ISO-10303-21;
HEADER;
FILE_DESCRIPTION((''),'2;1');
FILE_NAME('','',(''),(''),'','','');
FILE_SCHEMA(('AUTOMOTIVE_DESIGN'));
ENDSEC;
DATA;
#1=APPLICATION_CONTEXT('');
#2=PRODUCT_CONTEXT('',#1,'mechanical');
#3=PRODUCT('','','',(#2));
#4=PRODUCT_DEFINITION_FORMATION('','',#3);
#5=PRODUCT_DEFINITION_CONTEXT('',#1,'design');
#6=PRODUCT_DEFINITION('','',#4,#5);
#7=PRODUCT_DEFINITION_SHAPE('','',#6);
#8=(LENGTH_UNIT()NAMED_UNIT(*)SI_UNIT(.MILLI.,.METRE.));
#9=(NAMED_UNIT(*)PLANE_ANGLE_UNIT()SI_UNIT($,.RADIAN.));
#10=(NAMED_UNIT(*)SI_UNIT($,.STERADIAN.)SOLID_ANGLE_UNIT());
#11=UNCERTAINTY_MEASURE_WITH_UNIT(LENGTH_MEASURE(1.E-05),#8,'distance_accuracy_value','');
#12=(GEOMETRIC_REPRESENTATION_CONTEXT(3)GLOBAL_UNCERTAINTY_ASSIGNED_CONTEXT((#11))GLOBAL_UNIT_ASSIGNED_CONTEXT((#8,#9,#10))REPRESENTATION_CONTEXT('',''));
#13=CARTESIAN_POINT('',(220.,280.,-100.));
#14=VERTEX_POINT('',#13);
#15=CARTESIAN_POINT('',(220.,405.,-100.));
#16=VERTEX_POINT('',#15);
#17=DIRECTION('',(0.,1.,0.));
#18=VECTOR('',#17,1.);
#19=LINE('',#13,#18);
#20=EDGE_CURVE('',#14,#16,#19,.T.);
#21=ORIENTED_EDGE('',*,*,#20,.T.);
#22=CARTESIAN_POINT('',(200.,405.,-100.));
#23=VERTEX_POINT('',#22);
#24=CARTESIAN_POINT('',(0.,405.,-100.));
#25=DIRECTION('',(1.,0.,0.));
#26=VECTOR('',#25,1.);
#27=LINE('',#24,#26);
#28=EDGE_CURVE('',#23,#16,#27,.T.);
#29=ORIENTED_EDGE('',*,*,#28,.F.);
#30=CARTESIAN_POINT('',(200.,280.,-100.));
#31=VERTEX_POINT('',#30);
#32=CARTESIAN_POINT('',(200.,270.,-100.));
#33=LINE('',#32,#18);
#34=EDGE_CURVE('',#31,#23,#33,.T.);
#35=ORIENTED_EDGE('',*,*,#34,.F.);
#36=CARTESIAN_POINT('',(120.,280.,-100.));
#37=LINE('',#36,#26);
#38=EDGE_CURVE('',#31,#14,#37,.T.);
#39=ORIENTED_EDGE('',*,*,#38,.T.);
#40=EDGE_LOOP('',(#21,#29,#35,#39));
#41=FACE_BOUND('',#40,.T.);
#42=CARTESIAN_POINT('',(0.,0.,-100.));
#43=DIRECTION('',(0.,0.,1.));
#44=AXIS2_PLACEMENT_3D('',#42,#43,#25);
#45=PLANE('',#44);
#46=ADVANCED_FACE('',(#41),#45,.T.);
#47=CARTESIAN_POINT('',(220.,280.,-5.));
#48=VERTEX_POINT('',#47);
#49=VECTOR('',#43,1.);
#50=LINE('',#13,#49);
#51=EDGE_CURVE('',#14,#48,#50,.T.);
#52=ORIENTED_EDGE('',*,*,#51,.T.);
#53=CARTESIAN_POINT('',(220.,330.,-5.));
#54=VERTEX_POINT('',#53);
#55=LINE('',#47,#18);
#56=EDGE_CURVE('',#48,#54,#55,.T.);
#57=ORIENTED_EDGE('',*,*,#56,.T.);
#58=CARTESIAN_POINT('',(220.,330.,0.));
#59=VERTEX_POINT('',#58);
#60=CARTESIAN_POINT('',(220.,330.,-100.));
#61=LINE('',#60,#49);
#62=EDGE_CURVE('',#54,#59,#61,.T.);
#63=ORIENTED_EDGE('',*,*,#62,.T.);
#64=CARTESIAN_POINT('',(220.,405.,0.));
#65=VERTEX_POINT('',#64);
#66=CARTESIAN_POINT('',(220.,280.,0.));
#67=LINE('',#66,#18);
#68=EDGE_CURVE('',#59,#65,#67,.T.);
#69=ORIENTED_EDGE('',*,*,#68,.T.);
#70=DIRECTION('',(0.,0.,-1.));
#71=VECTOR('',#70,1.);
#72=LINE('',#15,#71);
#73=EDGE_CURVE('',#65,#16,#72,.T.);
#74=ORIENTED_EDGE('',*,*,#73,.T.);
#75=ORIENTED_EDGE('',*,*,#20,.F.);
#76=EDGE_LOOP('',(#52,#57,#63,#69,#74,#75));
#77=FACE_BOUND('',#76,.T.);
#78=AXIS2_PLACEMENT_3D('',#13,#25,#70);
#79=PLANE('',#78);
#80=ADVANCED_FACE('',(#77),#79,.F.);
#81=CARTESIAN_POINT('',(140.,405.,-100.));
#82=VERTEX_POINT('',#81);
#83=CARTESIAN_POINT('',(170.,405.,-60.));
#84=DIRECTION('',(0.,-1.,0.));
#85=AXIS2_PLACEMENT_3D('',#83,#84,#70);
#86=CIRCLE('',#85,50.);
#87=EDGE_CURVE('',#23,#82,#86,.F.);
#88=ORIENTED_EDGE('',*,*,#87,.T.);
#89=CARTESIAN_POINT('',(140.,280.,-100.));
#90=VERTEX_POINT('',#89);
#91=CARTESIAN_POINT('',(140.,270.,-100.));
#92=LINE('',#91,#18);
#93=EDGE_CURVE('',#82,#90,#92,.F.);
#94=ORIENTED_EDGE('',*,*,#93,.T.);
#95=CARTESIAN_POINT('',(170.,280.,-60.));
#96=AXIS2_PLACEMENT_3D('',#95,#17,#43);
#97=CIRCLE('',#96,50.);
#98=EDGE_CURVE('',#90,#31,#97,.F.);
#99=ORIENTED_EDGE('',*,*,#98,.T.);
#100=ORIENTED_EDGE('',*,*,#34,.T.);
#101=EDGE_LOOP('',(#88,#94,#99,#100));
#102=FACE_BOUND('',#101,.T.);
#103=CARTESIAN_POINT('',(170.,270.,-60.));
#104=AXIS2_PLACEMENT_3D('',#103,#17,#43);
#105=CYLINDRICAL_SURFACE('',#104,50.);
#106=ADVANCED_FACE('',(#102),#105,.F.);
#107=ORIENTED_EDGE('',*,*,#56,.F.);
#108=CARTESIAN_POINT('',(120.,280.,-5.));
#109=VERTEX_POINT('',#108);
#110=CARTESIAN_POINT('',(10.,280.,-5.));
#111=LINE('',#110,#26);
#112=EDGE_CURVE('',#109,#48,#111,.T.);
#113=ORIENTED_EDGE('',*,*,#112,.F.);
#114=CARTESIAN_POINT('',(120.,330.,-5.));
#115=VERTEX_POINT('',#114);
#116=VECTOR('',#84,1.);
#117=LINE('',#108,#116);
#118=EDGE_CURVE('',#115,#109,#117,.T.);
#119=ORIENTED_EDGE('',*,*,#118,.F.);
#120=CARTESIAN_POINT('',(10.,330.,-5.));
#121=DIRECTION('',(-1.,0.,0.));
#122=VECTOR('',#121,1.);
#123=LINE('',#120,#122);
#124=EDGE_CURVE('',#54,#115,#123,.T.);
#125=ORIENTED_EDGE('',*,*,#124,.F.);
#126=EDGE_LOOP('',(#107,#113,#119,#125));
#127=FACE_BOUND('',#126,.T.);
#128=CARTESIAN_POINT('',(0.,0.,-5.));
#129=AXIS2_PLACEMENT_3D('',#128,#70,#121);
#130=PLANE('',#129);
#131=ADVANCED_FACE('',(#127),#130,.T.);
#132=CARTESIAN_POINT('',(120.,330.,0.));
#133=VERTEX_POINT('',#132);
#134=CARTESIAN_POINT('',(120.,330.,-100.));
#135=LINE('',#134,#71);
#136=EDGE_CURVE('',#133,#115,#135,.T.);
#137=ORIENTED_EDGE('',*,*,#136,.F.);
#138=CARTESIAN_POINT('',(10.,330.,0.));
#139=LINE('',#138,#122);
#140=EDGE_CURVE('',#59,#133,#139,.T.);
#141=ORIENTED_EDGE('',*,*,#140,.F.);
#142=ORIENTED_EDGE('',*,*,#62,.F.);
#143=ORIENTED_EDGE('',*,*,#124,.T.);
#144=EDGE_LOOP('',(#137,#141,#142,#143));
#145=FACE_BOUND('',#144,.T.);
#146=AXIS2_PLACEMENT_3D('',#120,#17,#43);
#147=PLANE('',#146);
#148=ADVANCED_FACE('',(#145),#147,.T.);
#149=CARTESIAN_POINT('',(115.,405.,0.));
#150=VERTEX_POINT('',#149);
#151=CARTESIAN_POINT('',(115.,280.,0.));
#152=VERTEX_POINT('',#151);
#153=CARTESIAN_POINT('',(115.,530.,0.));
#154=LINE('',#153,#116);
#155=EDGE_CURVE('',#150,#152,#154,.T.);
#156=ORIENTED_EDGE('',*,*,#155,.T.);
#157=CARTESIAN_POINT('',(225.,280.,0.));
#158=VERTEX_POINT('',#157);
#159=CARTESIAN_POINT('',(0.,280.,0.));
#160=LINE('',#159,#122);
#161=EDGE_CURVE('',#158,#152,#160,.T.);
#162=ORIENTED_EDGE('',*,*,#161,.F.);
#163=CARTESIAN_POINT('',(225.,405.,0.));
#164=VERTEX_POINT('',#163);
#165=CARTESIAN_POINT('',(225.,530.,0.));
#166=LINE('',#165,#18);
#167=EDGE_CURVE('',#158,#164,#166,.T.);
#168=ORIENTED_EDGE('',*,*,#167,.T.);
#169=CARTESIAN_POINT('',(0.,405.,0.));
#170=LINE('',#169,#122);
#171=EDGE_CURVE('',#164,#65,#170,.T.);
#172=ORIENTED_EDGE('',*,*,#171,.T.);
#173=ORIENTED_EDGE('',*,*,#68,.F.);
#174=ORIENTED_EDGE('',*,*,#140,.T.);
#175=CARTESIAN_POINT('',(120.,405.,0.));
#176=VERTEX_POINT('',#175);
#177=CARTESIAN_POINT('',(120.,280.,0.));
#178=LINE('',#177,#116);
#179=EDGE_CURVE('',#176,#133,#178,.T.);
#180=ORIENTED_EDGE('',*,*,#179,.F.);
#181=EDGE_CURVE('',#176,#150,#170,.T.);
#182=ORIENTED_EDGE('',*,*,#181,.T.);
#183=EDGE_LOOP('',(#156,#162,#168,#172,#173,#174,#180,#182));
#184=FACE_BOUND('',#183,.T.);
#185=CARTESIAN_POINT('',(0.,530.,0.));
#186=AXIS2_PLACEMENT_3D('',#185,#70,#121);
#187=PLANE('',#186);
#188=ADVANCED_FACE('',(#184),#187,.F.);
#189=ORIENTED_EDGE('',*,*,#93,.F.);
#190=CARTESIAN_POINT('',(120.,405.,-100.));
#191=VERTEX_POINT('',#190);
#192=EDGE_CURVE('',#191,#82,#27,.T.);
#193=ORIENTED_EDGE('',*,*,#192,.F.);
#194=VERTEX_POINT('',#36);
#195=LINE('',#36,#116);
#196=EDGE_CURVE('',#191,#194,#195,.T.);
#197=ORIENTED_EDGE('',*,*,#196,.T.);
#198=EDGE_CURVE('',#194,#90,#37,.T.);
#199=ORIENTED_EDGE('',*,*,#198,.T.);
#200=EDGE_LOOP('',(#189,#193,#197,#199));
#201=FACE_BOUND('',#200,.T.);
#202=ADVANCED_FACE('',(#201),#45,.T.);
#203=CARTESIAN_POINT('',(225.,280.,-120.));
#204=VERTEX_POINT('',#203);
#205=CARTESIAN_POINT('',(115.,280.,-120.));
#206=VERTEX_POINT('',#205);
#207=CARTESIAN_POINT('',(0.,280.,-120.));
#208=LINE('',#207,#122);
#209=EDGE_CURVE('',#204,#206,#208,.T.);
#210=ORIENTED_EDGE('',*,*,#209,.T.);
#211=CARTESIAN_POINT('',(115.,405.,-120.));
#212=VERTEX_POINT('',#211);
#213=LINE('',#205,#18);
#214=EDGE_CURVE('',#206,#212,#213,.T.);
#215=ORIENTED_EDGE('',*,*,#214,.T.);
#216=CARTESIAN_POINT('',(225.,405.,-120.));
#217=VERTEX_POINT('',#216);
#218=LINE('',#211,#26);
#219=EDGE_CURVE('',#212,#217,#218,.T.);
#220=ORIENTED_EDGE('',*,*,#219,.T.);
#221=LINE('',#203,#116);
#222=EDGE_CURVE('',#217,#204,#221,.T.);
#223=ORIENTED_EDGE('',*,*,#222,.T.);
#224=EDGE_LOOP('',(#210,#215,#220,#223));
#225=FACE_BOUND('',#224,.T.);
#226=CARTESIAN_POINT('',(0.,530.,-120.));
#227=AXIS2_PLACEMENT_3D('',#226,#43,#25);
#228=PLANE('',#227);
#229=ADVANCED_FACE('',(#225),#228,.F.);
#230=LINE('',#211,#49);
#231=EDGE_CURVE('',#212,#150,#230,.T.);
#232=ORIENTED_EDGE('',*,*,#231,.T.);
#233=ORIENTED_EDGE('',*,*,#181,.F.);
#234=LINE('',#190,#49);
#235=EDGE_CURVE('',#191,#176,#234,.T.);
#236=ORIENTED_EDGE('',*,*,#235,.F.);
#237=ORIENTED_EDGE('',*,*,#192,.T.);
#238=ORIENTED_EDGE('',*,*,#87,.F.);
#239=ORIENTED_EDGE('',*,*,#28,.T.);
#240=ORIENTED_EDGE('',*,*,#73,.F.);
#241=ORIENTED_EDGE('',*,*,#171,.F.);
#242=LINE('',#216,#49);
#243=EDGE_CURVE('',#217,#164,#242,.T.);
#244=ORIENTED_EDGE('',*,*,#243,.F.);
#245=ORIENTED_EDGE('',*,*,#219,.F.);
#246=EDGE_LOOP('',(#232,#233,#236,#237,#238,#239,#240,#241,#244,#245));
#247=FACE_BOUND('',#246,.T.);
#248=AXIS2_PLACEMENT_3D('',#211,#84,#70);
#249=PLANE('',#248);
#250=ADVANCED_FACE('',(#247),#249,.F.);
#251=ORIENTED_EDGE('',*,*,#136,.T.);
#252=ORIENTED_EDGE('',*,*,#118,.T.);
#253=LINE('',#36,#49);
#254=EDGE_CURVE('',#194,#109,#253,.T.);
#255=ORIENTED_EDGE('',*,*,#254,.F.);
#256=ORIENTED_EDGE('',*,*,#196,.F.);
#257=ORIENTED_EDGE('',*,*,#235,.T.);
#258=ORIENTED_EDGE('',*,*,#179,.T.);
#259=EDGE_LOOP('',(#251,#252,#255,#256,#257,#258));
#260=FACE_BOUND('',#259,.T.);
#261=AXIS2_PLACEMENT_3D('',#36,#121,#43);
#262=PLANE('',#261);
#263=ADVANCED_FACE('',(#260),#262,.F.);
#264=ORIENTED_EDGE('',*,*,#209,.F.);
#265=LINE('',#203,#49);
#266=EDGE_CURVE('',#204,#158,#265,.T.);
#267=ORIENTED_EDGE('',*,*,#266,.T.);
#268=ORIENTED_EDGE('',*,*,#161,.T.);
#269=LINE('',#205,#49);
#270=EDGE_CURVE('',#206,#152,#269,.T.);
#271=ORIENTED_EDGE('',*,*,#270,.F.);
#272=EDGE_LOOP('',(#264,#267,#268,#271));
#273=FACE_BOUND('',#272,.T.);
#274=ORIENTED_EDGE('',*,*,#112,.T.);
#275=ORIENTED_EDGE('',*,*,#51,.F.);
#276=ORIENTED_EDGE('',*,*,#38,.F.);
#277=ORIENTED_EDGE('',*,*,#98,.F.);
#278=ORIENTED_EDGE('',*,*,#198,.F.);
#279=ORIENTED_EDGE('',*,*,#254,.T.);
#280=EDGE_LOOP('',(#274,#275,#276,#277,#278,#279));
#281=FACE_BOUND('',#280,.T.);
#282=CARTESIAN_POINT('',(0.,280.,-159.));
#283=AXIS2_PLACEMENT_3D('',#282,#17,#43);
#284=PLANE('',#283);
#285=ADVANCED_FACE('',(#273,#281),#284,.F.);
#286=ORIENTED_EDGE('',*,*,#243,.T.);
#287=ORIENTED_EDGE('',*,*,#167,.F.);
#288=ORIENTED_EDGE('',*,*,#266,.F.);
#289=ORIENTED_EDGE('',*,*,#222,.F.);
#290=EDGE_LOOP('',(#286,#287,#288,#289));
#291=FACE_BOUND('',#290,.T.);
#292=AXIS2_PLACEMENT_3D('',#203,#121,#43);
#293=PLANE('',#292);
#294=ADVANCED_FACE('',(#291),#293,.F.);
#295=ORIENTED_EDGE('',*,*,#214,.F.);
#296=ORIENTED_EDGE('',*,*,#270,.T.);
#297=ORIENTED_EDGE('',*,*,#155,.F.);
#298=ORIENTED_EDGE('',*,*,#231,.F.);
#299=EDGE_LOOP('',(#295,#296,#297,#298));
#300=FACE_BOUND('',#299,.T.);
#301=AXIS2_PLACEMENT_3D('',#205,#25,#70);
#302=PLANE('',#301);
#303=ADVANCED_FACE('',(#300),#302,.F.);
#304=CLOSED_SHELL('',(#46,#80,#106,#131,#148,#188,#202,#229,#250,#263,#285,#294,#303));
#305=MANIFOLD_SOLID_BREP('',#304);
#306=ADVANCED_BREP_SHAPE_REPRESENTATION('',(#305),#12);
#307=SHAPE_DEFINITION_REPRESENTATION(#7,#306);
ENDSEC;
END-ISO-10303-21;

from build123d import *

# Parameters (mm, degrees)
SKETCH1_W                      = 670
SKETCH1_H                      = 120
BOSS_EXTRUDE1_DEPTH            = 530
SKETCH2_W                      = 100
SKETCH2_H                      = 200
SKETCH2_W_2                    = 650
SKETCH2_H_2                    = 250
CUT_EXTRUDE1_DEPTH             = 100
SKETCH3_R                      = 50
CUT_EXTRUDE2_DEPTH             = 260
F_12_0_12_DIAMETER_HOLE2_D     = 12
F_12_0_12_DIAMETER_HOLE2_DEPTH = 30
F_12_0_12_DIAMETER_HOLE2_TIP   = 3.605163714
SKETCH8_W                      = 650
SKETCH8_H                      = 50
BOSS_EXTRUDE2_DEPTH            = 5
SKETCH9_W                      = 10
SKETCH9_H                      = 250
CUT_EXTRUDE3_DEPTH             = 717
CUT_EXTRUDE4_DEPTH             = 5
SKETCH11_W                     = 10
SKETCH11_H                     = 100
BOSS_EXTRUDE3_DEPTH            = 78
BOSS_EXTRUDE3_2_DEPTH          = 78
BOSS_EXTRUDE3_3_DEPTH          = 78
SKETCH12_W                     = 20
SKETCH12_H                     = 30
CUT_EXTRUDE5_DEPTH             = 80
SKETCH15_W                     = 30
SKETCH15_H                     = 23.536156656
SKETCH15_H_2                   = 28.986603691
CUT_EXTRUDE7_DEPTH             = 35
SHELL1_T                       = -3
SKETCH16_W                     = 14
SKETCH16_H                     = 14
CUT_EXTRUDE8_DEPTH             = 35
SKETCH17_W                     = 5.729882812
SKETCH17_H                     = 17.428393554
SKETCH17_W_2                   = 13.369726562
SKETCH17_H_2                   = 3.342431641
BOSS_EXTRUDE4_DEPTH            = 5
SKETCH18_W                     = 670
SKETCH18_H                     = 280
CUT_EXTRUDE10_DEPTH            = 159
CUT_EXTRUDE11_DEPTH            = 863.670273187
CUT_EXTRUDE11_DEPTH_BACK       = 863.670273187
SKETCH19_W                     = 115
SKETCH19_H                     = 250
SKETCH19_W_2                   = 445
CUT_EXTRUDE12_DEPTH            = 589.153891426
CUT_EXTRUDE12_DEPTH_BACK       = 589.153891426
SKETCH20_W                     = 110
SKETCH20_H                     = 125


with BuildPart() as part:
    # Sketch1 → Boss-Extrude1 (new body)
    with BuildSketch(Plane(origin=(0, 0, 0), x_dir=(1, 0, 0), z_dir=(0, 1, 0))):
        with Locations((335, 60)):
            Rectangle(SKETCH1_W, SKETCH1_H)
    extrude(amount=BOSS_EXTRUDE1_DEPTH)

    # Sketch2 → Cut-Extrude1 (cut)
    with BuildSketch(Plane.XY):
        with Locations((60, 380)):
            Rectangle(SKETCH2_W, SKETCH2_H)
        with Locations((170, 380)):
            Rectangle(SKETCH2_W, SKETCH2_H)
        with Locations((280, 380)):
            Rectangle(SKETCH2_W, SKETCH2_H)
        with Locations((390, 380)):
            Rectangle(SKETCH2_W, SKETCH2_H)
        with Locations((500, 380)):
            Rectangle(SKETCH2_W, SKETCH2_H)
        with Locations((610, 380)):
            Rectangle(SKETCH2_W, SKETCH2_H)
        with Locations((335, 135)):
            Rectangle(SKETCH2_W_2, SKETCH2_H_2)
    extrude(amount=-CUT_EXTRUDE1_DEPTH, mode=Mode.SUBTRACT)

    # Sketch3 → Cut-Extrude2 (cut)
    with BuildSketch(Plane(origin=(0, 530, 0), x_dir=(1, 0, 0), z_dir=(0, 1, 0))):
        with Locations(Location((60, 60, 0), (0, 0, 270))):
            Circle(SKETCH3_R)
        with Locations(Location((170, 60, 0), (0, 0, 270))):
            Circle(SKETCH3_R)
        with Locations(Location((280, 60, 0), (0, 0, 270))):
            Circle(SKETCH3_R)
        with Locations(Location((390, 60, 0), (0, 0, 270))):
            Circle(SKETCH3_R)
        with Locations(Location((500, 60, 0), (0, 0, 270))):
            Circle(SKETCH3_R)
        with Locations(Location((610, 60, 0), (0, 0, 270))):
            Circle(SKETCH3_R)
    extrude(amount=-CUT_EXTRUDE2_DEPTH, mode=Mode.SUBTRACT)

    # Ø12.0 (12) Diameter Hole2
    with Locations(Plane(origin=(59.704642413, 270, -102.411697903), x_dir=(0, 0, 1), z_dir=(0, 1, 0))):
        with Locations((0, 0), (-0.195888006, 111.8520513), (0.014838595, 221.167624818), (-0.341843303, 331.364008353), (0.657723149, 441.008646429), (1.288998006, 549.811854685)):
            Hole(F_12_0_12_DIAMETER_HOLE2_D / 2, depth=F_12_0_12_DIAMETER_HOLE2_DEPTH)
            with Locations((0, 0, -(F_12_0_12_DIAMETER_HOLE2_DEPTH + F_12_0_12_DIAMETER_HOLE2_TIP / 2))):  # 118° drill point
                Cone(0, F_12_0_12_DIAMETER_HOLE2_D / 2, F_12_0_12_DIAMETER_HOLE2_TIP, mode=Mode.SUBTRACT)

    # Sketch8 → Boss-Extrude2 (add)
    with BuildSketch(Plane.XY):
        with Locations((335, 305)):
            Rectangle(SKETCH8_W, SKETCH8_H)
    extrude(amount=-BOSS_EXTRUDE2_DEPTH)

    # Sketch9 → Cut-Extrude3 (cut)
    with BuildSketch(Plane(origin=(670, 0, 0), x_dir=(0, 0, -1), z_dir=(1, 0, 0))):
        with Locations((15, 135)):
            Rectangle(SKETCH9_W, SKETCH9_H)
    extrude(amount=-CUT_EXTRUDE3_DEPTH, mode=Mode.SUBTRACT)

    # Sketch10 → Cut-Extrude4 (cut)
    with BuildSketch(Plane(origin=(0, 10, 0), x_dir=(1, 0, 0), z_dir=(0, 1, 0))):
        Polygon((365, 61.943560596), (350, 87.924322709), (320, 87.924322709), (305, 61.943560596), (320, 35.962798482), (350, 35.962798482), align=None)
    extrude(amount=-CUT_EXTRUDE4_DEPTH, mode=Mode.SUBTRACT)

    # Sketch12 → Cut-Extrude5 (cut)
    with BuildSketch(Plane.XY.offset(-100)):
        with Locations((85.198613037, 245)):
            Rectangle(SKETCH12_W, SKETCH12_H)
        with Locations((195.198613037, 245)):
            Rectangle(SKETCH12_W, SKETCH12_H)
        with Locations((305.198613037, 245)):
            Rectangle(SKETCH12_W, SKETCH12_H)
        with Locations((415.198613037, 245)):
            Rectangle(SKETCH12_W, SKETCH12_H)
        with Locations((525.198613037, 245)):
            Rectangle(SKETCH12_W, SKETCH12_H)
        with Locations((635.198613037, 245)):
            Rectangle(SKETCH12_W, SKETCH12_H)
    extrude(amount=-CUT_EXTRUDE5_DEPTH, mode=Mode.SUBTRACT)

    # Sketch17 → Boss-Extrude4 (add)
    # profile 1 of 9: a face of its own
    with BuildSketch(Plane.XY):
        with BuildLine():
            Line((527.508830928, 289.835452458), (527.508830928, 307.263846012))
            Line((527.508830928, 307.263846012), (534.861434459, 307.263846012))
            add(Edge.make_bspline(
                [(534.861434459, 307.263846012), (535.181337774, 307.258256848), (535.803061116, 307.24739446), (536.703508491, 307.139069344), (537.544992916, 306.975202489), (538.325061607, 306.737496792), (539.040841948, 306.426020155), (539.698044515, 306.051894954), (540.290333057, 305.605079277), (540.822348212, 305.090232636), (541.284521701, 304.502523111), (541.692171296, 303.852565801), (542.030284458, 303.129762281), (542.309377095, 302.341316546), (542.5243908, 301.484161689), (542.679660381, 300.560045938), (542.773357357, 299.567500804), (542.783368073, 298.883107022), (542.788518428, 298.530997273)],
                knots=[0, 0, 0, 0, 1.135059408, 2.20595691, 3.214417064, 4.174978569, 5.094187092, 5.980001006, 6.853065862, 7.720814779, 8.600404634, 9.50058483, 10.438414914, 11.426825708, 12.465239141, 13.571113463, 14.750376389, 16, 16, 16, 16], degree=3))
            add(Edge.make_bspline(
                [(542.788518428, 298.530997273), (542.781740751, 298.180151665), (542.768592871, 297.499553336), (542.676885992, 296.511518461), (542.516733301, 295.591080531), (542.296748778, 294.736450427), (542.003051046, 293.953120444), (541.654236167, 293.233205539), (541.233025793, 292.585291498), (540.753136904, 292.000029304), (540.204772188, 291.484681411), (539.587651059, 291.044279297), (538.910779309, 290.668464036), (538.169670382, 290.361903209), (537.364073889, 290.124869172), (536.495133477, 289.954199984), (535.562644449, 289.853487388), (534.920131033, 289.841584621), (534.58911581, 289.835452458)],
                knots=[0, 0, 0, 0, 1.228418252, 2.382983832, 3.470276728, 4.496757894, 5.468023682, 6.394867725, 7.292157164, 8.167372942, 9.039072913, 9.918728341, 10.815246345, 11.744296628, 12.720973084, 13.750736166, 14.841206188, 16, 16, 16, 16], degree=3))
            Line((534.58911581, 289.835452458), (527.508830928, 289.835452458))
        make_face()
        with BuildLine():
            Line((533.238713741, 291.745413395), (534.048208904, 291.745413395))
            add(Edge.make_bspline(
                [(534.048208904, 291.745413395), (534.172894012, 291.749291978), (534.413033311, 291.756761998), (534.758676231, 291.825976613), (535.075745017, 291.938271137), (535.365749176, 292.094802589), (535.623404602, 292.300450923), (535.848862806, 292.551404902), (536.04776914, 292.844737637), (536.217685755, 293.190205032), (536.364284647, 293.596533622), (536.481764702, 294.076367921), (536.592118304, 294.630928744), (536.673672739, 295.265507643), (536.740044562, 295.978448886), (536.788346679, 296.768428292), (536.812018936, 297.636801208), (536.817188964, 298.241258393), (536.819890499, 298.55711002)],
                knots=[0, 0, 0, 0, 0.728710832, 1.403472396, 2.052289494, 2.690292559, 3.321919393, 3.970736491, 4.656696891, 5.388631723, 6.217040872, 7.17856157, 8.275589967, 9.523440737, 10.918935818, 12.463926104, 14.152268318, 16, 16, 16, 16], degree=3))
            add(Edge.make_bspline(
                [(536.819890499, 298.55711002), (536.8171426, 298.871715251), (536.811863063, 299.476166083), (536.7886758, 300.343334385), (536.739579947, 301.133216935), (536.674703848, 301.843934916), (536.589660404, 302.476324031), (536.488366458, 303.031681737), (536.362441588, 303.507627045), (536.222158727, 303.914921549), (536.050140993, 304.256514038), (535.858357073, 304.554097881), (535.62547107, 304.79746827), (535.36991257, 305.004888479), (535.079348843, 305.160875844), (534.761320266, 305.273944358), (534.414185903, 305.34216807), (534.172870641, 305.349893944), (534.048208904, 305.353885075)],
                knots=[0, 0, 0, 0, 1.842836665, 3.540640921, 5.080358154, 6.47765669, 7.719902824, 8.816971715, 9.781579111, 10.601733135, 11.334613876, 12.017393917, 12.666641099, 13.29908421, 13.937911793, 14.587567384, 15.270347425, 16, 16, 16, 16], degree=3))
            Line((534.048208904, 305.353885075), (533.238713741, 305.353885075))
            Line((533.238713741, 305.353885075), (533.238713741, 291.745413395))
        make_face(mode=Mode.SUBTRACT)
    # profile 2 of 9: a face of its own
    with BuildSketch(Plane.XY):
        with Locations((547.563420772, 298.549649235)):
            Rectangle(SKETCH17_W, SKETCH17_H)
    # profile 3 of 9: a face of its own
    with BuildSketch(Plane.XY):
        Polygon((564.514324092, 307.263846012), (564.514324092, 305.115139958), (558.545696163, 305.115139958), (558.545696163, 299.862747379), (563.559343624, 299.862747379), (563.559343624, 297.714041325), (558.545696163, 297.714041325), (558.545696163, 289.835452458), (552.81581335, 289.835452458), (552.81581335, 307.263846012), align=None)
    # profile 4 of 9: a face of its own
    with BuildSketch(Plane.XY):
        Polygon((577.645305538, 307.263846012), (577.645305538, 305.115139958), (571.676677608, 305.115139958), (571.676677608, 299.862747379), (576.690325069, 299.862747379), (576.690325069, 297.714041325), (571.676677608, 297.714041325), (571.676677608, 289.835452458), (565.946794795, 289.835452458), (565.946794795, 307.263846012), align=None)
    # profile 5 of 9: a face of its own
    with BuildSketch(Plane.XY):
        with Locations((584.330168819, 287.448001286)):
            Rectangle(SKETCH17_W_2, SKETCH17_H_2)
    # profile 6 of 9: a face of its own
    with BuildSketch(Plane.XY):
        with BuildLine():
            Line((605.578484249, 307.263846012), (605.578484249, 295.602639195))
            add(Edge.make_bspline(
                [(605.578484249, 295.602639195), (605.574209777, 295.35989389), (605.565919345, 294.889083964), (605.480877158, 294.20653885), (605.349958188, 293.569747554), (605.15926554, 292.978838165), (604.911867049, 292.436847071), (604.616163877, 291.936663973), (604.260702644, 291.487723021), (603.847299908, 291.08966617), (603.386881991, 290.731670113), (602.867295001, 290.425440037), (602.293741958, 290.168488385), (601.66690529, 289.960990771), (600.988052682, 289.797299786), (600.254912883, 289.679078851), (599.467035781, 289.60781007), (598.923618241, 289.60048219), (598.643684673, 289.59670734)],
                knots=[0, 0, 0, 0, 1.108173197, 2.149326602, 3.136215123, 4.073726706, 4.978516626, 5.852185058, 6.72141202, 7.584905625, 8.467554395, 9.379216169, 10.332422268, 11.332766067, 12.390653242, 13.518530507, 14.721707419, 16, 16, 16, 16], degree=3))
            add(Edge.make_bspline(
                [(598.643684673, 289.59670734), (598.373688491, 289.600411437), (597.851346557, 289.607577482), (597.093280473, 289.679448684), (596.387523889, 289.797736542), (595.733050135, 289.960122315), (595.130189942, 290.169220301), (594.579048171, 290.42623041), (594.078350789, 290.732835498), (593.633858028, 291.090104794), (593.234289459, 291.486851767), (592.899913678, 291.940746827), (592.609043638, 292.435866034), (592.375223767, 292.980322997), (592.191754821, 293.570441519), (592.063541006, 294.20666921), (591.983676196, 294.889343196), (591.974661767, 295.359932437), (591.970012569, 295.602639195)],
                knots=[0, 0, 0, 0, 1.258901956, 2.435505865, 3.547148904, 4.59359074, 5.576649289, 6.5183682, 7.424469602, 8.307507093, 9.172751023, 10.042627298, 10.928839176, 11.845659241, 12.799442865, 13.80597989, 14.868432463, 16, 16, 16, 16], degree=3))
            Line((591.970012569, 295.602639195), (591.970012569, 307.263846012))
            Line((591.970012569, 307.263846012), (597.699895381, 307.263846012))
            Line((597.699895381, 307.263846012), (597.699895381, 295.457153889))
            add(Edge.make_bspline(
                [(597.699895381, 295.457153889), (597.700816195, 295.287996189), (597.702584578, 294.963135903), (597.729908723, 294.499051493), (597.768241004, 294.079064133), (597.828226169, 293.705517832), (597.90066041, 293.377063412), (597.989882091, 293.09281535), (598.094998068, 292.852496478), (598.225239063, 292.654232043), (598.380826623, 292.495135011), (598.55368342, 292.353231761), (598.757556996, 292.238543846), (598.987648905, 292.146224908), (599.243380948, 292.070549638), (599.526120553, 292.020376099), (599.83553351, 291.990763905), (600.049971942, 291.986424568), (600.161954402, 291.984158512)],
                knots=[0, 0, 0, 0, 1.622370975, 3.115695595, 4.458049099, 5.666011203, 6.742434742, 7.681714947, 8.519814998, 9.250928664, 9.942747364, 10.646898194, 11.389596108, 12.175933929, 13.021386247, 13.943159715, 14.925891993, 16, 16, 16, 16], degree=3))
            add(Edge.make_bspline(
                [(600.161954402, 291.984158512), (600.283927219, 291.987190593), (600.521124756, 291.993087005), (600.86597014, 292.03390861), (601.187714881, 292.103380086), (601.484890424, 292.205377303), (601.758665297, 292.332852529), (602.012761516, 292.484567923), (602.236391413, 292.674631152), (602.439076761, 292.888441291), (602.620738276, 293.128529789), (602.771757722, 293.399928575), (602.905501548, 293.697121508), (603.005823683, 294.025060118), (603.089837826, 294.379999499), (603.146989706, 294.763086929), (603.186210275, 295.174074524), (603.189394751, 295.457053988), (603.191033077, 295.602639195)],
                knots=[0, 0, 0, 0, 1.083870311, 2.107775948, 3.08105344, 4.003637981, 4.893545291, 5.761570557, 6.624657808, 7.49233129, 8.376387281, 9.291996285, 10.246843261, 11.267344133, 12.334180325, 13.486053461, 14.706643157, 16, 16, 16, 16], degree=3))
            Line((603.191033077, 295.602639195), (603.191033077, 307.263846012))
            Line((603.191033077, 307.263846012), (605.578484249, 307.263846012))
        make_face()
    # profile 7 of 9: a face of its own
    with BuildSketch(Plane.XY):
        with BuildLine():
            Line((619.731593227, 302.015183827), (616.739818477, 301.526502415))
            add(Edge.make_bspline(
                [(616.739818477, 301.526502415), (616.748849224, 301.670726223), (616.765660669, 301.939210177), (616.78429066, 302.312269209), (616.796668381, 302.625642376), (616.798628236, 302.814722915), (616.799504756, 302.899286839)],
                knots=[0, 0, 0, 0, 1.261802504, 2.348944521, 3.261585937, 4, 4, 4, 4], degree=3))
            add(Edge.make_bspline(
                [(616.799504756, 302.899286839), (616.798306068, 303.007660677), (616.795968139, 303.219033721), (616.750451916, 303.523894877), (616.694806916, 303.811547356), (616.604352699, 304.076787391), (616.488181329, 304.320314265), (616.348943917, 304.543955606), (616.184187178, 304.745078709), (615.995833421, 304.928129987), (615.778009957, 305.083200131), (615.536269472, 305.218702836), (615.269765326, 305.333844758), (614.978065514, 305.431346685), (614.660683072, 305.504624438), (614.319025281, 305.556776695), (613.952471696, 305.585673441), (613.699597795, 305.590260771), (613.568984889, 305.592630192)],
                knots=[0, 0, 0, 0, 1.079280541, 2.105035848, 3.067950317, 3.99715044, 4.889989748, 5.753421302, 6.617030865, 7.476358039, 8.364190572, 9.274590025, 10.235106994, 11.254473582, 12.337095886, 13.478601727, 14.697662529, 16, 16, 16, 16], degree=3))
            add(Edge.make_bspline(
                [(613.568984889, 305.592630192), (613.391954632, 305.58912286), (613.059112606, 305.582528579), (612.595688488, 305.495339748), (612.198743126, 305.361419257), (611.87165349, 305.163811893), (611.613188167, 304.909795747), (611.433841092, 304.593316589), (611.323009072, 304.224665915), (611.313400221, 303.959558324), (611.308367061, 303.820693775)],
                knots=[0, 0, 0, 0, 1.294917039, 2.43462794, 3.440028966, 4.347597256, 5.210608309, 6.06356377, 6.985685997, 8, 8, 8, 8], degree=3))
            add(Edge.make_bspline(
                [(611.308367061, 303.820693775), (611.317562032, 303.705133219), (611.336106628, 303.472068433), (611.47315858, 303.132808312), (611.695999602, 302.811560885), (612.009295906, 302.510664216), (612.404107796, 302.221967273), (612.884407504, 301.948533431), (613.450813789, 301.688189695), (613.862519081, 301.536023727), (614.080048656, 301.455624958)],
                knots=[0, 0, 0, 0, 0.716839541, 1.445735977, 2.240793036, 3.131329288, 4.131129903, 5.273471266, 6.559404876, 8, 8, 8, 8], degree=3))
            add(Edge.make_bspline(
                [(614.080048656, 301.455624958), (614.335934702, 301.364918412), (614.834564244, 301.188164095), (615.547657928, 300.88707802), (616.213068388, 300.5749594), (616.829579094, 300.246613346), (617.397833174, 299.90520698), (617.914851624, 299.544556457), (618.386199073, 299.173962102), (618.807001026, 298.783874588), (619.177995113, 298.378100064), (619.4958685, 297.952745357), (619.771807525, 297.51723103), (619.991113975, 297.061458502), (620.169645242, 296.594624218), (620.292698657, 296.11024444), (620.364288243, 295.609761088), (620.37516617, 295.270864226), (620.380681514, 295.099036213)],
                knots=[0, 0, 0, 0, 1.359488612, 2.649152603, 3.874964776, 5.039588756, 6.146130126, 7.193090393, 8.194917302, 9.146793662, 10.063845301, 10.944476293, 11.803344532, 12.641736646, 13.473440096, 14.302714936, 15.139439897, 16, 16, 16, 16], degree=3))
            add(Edge.make_bspline(
                [(620.380681514, 295.099036213), (620.374476075, 294.902306495), (620.362285176, 294.515820995), (620.280160209, 293.948630617), (620.138011896, 293.409496554), (619.938489338, 292.895972278), (619.681049879, 292.411946655), (619.366518754, 291.954381076), (618.996510229, 291.525099427), (618.5710008, 291.128381035), (618.102222518, 290.765302239), (617.587803957, 290.450854345), (617.034458515, 290.187092261), (616.444107988, 289.968993032), (615.81453624, 289.801373099), (615.145337453, 289.685291013), (614.438790193, 289.606619894), (613.954683001, 289.600062276), (613.70700941, 289.59670734)],
                knots=[0, 0, 0, 0, 0.972121714, 1.909782367, 2.824924061, 3.721832975, 4.62620438, 5.527836938, 6.46026819, 7.421000932, 8.398101015, 9.385579713, 10.394244048, 11.422703992, 12.491421888, 13.608778581, 14.776629625, 16, 16, 16, 16], degree=3))
            add(Edge.make_bspline(
                [(613.70700941, 289.59670734), (613.445745367, 289.599650312), (612.939893069, 289.605348413), (612.207608113, 289.66709241), (611.525297432, 289.760984454), (610.893395078, 289.899706116), (610.309273131, 290.072394336), (609.776099392, 290.288320955), (609.295310255, 290.547303481), (608.863217672, 290.843007892), (608.478306623, 291.175775461), (608.148120946, 291.551766865), (607.86942369, 291.967163224), (607.639947144, 292.421521488), (607.466477665, 292.917583541), (607.339164663, 293.449829748), (607.264537999, 294.021332449), (607.254747521, 294.414908557), (607.249700069, 294.617815586)],
                knots=[0, 0, 0, 0, 1.342201143, 2.598733168, 3.773451092, 4.878874364, 5.91991243, 6.900006476, 7.829142054, 8.72062616, 9.585588575, 10.436728592, 11.283829734, 12.149664931, 13.044964919, 13.977937424, 14.957531465, 16, 16, 16, 16], degree=3))
            add(Edge.make_bspline(
                [(607.249700069, 294.617815586), (607.250803815, 294.692425759), (607.253213998, 294.855347393), (607.260452266, 295.122772538), (607.275636683, 295.433682216), (607.29037174, 295.656130545), (607.298195171, 295.774237248)],
                knots=[0, 0, 0, 0, 0.773500207, 1.689044709, 2.77302154, 4, 4, 4, 4], degree=3))
            Line((607.298195171, 295.774237248), (610.36457777, 296.337526509))
            add(Edge.make_bspline(
                [(610.36457777, 296.337526509), (610.326952988, 296.136337493), (610.255606535, 295.754830366), (610.178678473, 295.21219969), (610.124206629, 294.733311493), (610.11767002, 294.435147371), (610.114641475, 294.297001835)],
                knots=[0, 0, 0, 0, 1.192988372, 2.262218769, 3.194850416, 4, 4, 4, 4], degree=3))
            add(Edge.make_bspline(
                [(610.114641475, 294.297001835), (610.116191817, 294.183708768), (610.119182568, 293.965156219), (610.159053378, 293.648552813), (610.215988606, 293.352999663), (610.302906772, 293.079707227), (610.411206928, 292.826307836), (610.544682453, 292.59538211), (610.704385489, 292.386485019), (610.887496571, 292.200099922), (611.094689168, 292.033628705), (611.327456494, 291.892756696), (611.58347653, 291.771733922), (611.864681562, 291.677479524), (612.167961721, 291.596080628), (612.497219749, 291.548235723), (612.849461228, 291.512043782), (613.092629543, 291.508500084), (613.218327999, 291.506668278)],
                knots=[0, 0, 0, 0, 1.135776692, 2.191015738, 3.19649269, 4.151244236, 5.061952528, 5.956281389, 6.819534407, 7.692823504, 8.571441916, 9.478554956, 10.416037156, 11.406231466, 12.450054172, 13.561596327, 14.739541482, 16, 16, 16, 16], degree=3))
            add(Edge.make_bspline(
                [(613.218327999, 291.506668278), (613.423996012, 291.510791273), (613.810619321, 291.518541853), (614.349272542, 291.616708407), (614.810575885, 291.768742445), (615.189785268, 291.991387532), (615.490778961, 292.278756613), (615.698005174, 292.637320004), (615.824813318, 293.05638326), (615.837728413, 293.355975238), (615.844524288, 293.513619419)],
                knots=[0, 0, 0, 0, 1.308765556, 2.460272085, 3.475015317, 4.388076298, 5.239673503, 6.095681635, 6.997954785, 8, 8, 8, 8], degree=3))
            add(Edge.make_bspline(
                [(615.844524288, 293.513619419), (615.833808824, 293.638242951), (615.811807312, 293.894126055), (615.644884004, 294.264515838), (615.382382362, 294.620631473), (615.016807277, 294.962984909), (614.551376589, 295.293471235), (613.986957743, 295.616730224), (613.322148235, 295.933112033), (612.83677959, 296.119639164), (612.580430889, 296.21815395)],
                knots=[0, 0, 0, 0, 0.667930748, 1.371427933, 2.146459016, 3.034714139, 4.04893387, 5.207327294, 6.525042705, 8, 8, 8, 8], degree=3))
            add(Edge.make_bspline(
                [(612.580430889, 296.21815395), (612.374354345, 296.29679374), (611.970646869, 296.450850434), (611.394079385, 296.713586304), (610.853066711, 296.987016804), (610.357486361, 297.288235735), (609.896382561, 297.599610528), (609.477036946, 297.932256792), (609.09841673, 298.284556341), (608.758710772, 298.653375077), (608.457302107, 299.038989264), (608.199448649, 299.444659231), (607.977533299, 299.866789834), (607.798609588, 300.308107488), (607.65975715, 300.767821241), (607.559616231, 301.244439392), (607.497905054, 301.739995674), (607.491630423, 302.075933546), (607.488445186, 302.246468159)],
                knots=[0, 0, 0, 0, 1.249558333, 2.447906163, 3.58867143, 4.682264114, 5.731748367, 6.739728761, 7.711906036, 8.659384707, 9.578321416, 10.481344598, 11.379544271, 12.277135726, 13.175418307, 14.097160112, 15.034047388, 16, 16, 16, 16], degree=3))
            add(Edge.make_bspline(
                [(607.488445186, 302.246468159), (607.49282555, 302.439538736), (607.501402184, 302.817565692), (607.587451154, 303.36980586), (607.719291893, 303.894921371), (607.910558542, 304.389343064), (608.156192894, 304.852853762), (608.453187669, 305.288766511), (608.804241719, 305.697593471), (609.213503754, 306.066686531), (609.657214714, 306.407618241), (610.14376173, 306.697651931), (610.658716537, 306.950861947), (611.210636666, 307.148827868), (611.791820619, 307.313252612), (612.408080529, 307.421140415), (613.056315391, 307.490701612), (613.499160755, 307.498567824), (613.725661373, 307.502591129)],
                knots=[0, 0, 0, 0, 1.01033566, 1.978209831, 2.919499157, 3.840961976, 4.746855014, 5.660740114, 6.597989116, 7.56120833, 8.541877795, 9.523498025, 10.522416858, 11.542172371, 12.589598349, 13.681636521, 14.814234488, 16, 16, 16, 16], degree=3))
            add(Edge.make_bspline(
                [(613.725661373, 307.502591129), (613.968269855, 307.498219033), (614.438190994, 307.489750488), (615.120391152, 307.426787419), (615.755073228, 307.319142339), (616.345153155, 307.171557286), (616.887304575, 306.977590666), (617.384933999, 306.742393454), (617.834452216, 306.46201507), (618.236961315, 306.139451502), (618.593086714, 305.773322851), (618.897467704, 305.361641069), (619.158701245, 304.909408454), (619.366684143, 304.412232174), (619.529870326, 303.873247147), (619.649133834, 303.29158184), (619.720420497, 302.667301443), (619.72779778, 302.236712324), (619.731593227, 302.015183827)],
                knots=[0, 0, 0, 0, 1.248314423, 2.417925914, 3.521398822, 4.558068205, 5.543720209, 6.479599284, 7.385061127, 8.263440163, 9.127722873, 10.00561236, 10.891325273, 11.808802823, 12.772251995, 13.784947978, 14.860405143, 16, 16, 16, 16], degree=3))
        make_face()
    # profile 8 of 9: a face of its own
    with BuildSketch(Plane.XY):
        Polygon((633.989153194, 307.263846012), (633.989153194, 305.115139958), (628.020525264, 305.115139958), (628.020525264, 300.340237614), (633.034172725, 300.340237614), (633.034172725, 298.191531559), (628.020525264, 298.191531559), (628.020525264, 291.984158512), (634.944133663, 291.984158512), (634.944133663, 289.835452458), (622.290642452, 289.835452458), (622.290642452, 307.263846012), align=None)
    # profile 9 of 9: a face of its own
    with BuildSketch(Plane.XY):
        with BuildLine():
            Line((636.376604366, 289.835452458), (636.376604366, 307.263846012))
            Line((636.376604366, 307.263846012), (643.990335369, 307.263846012))
            add(Edge.make_bspline(
                [(643.990335369, 307.263846012), (644.237946498, 307.261150834), (644.721600887, 307.25588639), (645.426490561, 307.189203683), (646.094808274, 307.090496236), (646.724915796, 306.949857504), (647.317873659, 306.767252686), (647.871119087, 306.542146), (648.390701058, 306.282329135), (648.864494846, 305.976472528), (649.295093616, 305.642889252), (649.669668547, 305.279483604), (649.990389523, 304.894749072), (650.250664962, 304.483256345), (650.454275633, 304.048690948), (650.59581384, 303.587791605), (650.684089268, 303.104102537), (650.695510601, 302.772834174), (650.701311397, 302.604585835)],
                knots=[0, 0, 0, 0, 1.303269877, 2.545653735, 3.724355284, 4.8584284, 5.941462088, 6.987020715, 8.000098032, 8.995332524, 9.951400474, 10.863507538, 11.737823931, 12.582415999, 13.420128714, 14.25671499, 15.114600608, 16, 16, 16, 16], degree=3))
            add(Edge.make_bspline(
                [(650.701311397, 302.604585835), (650.698282873, 302.472674957), (650.692382063, 302.215658276), (650.651041486, 301.838684287), (650.580643818, 301.480313933), (650.481036683, 301.139915259), (650.347814833, 300.820175594), (650.191279492, 300.517863507), (650.009772227, 300.230553342), (649.788675198, 299.970497982), (649.548268341, 299.722842359), (649.274558803, 299.497116911), (648.974487035, 299.288655528), (648.642526299, 299.104010513), (648.287619671, 298.928055749), (647.899038177, 298.784921972), (647.486819978, 298.644749395), (647.19793098, 298.577036306), (647.049257183, 298.54218845)],
                knots=[0, 0, 0, 0, 1.057156483, 2.059775939, 3.035078039, 3.981068617, 4.897189472, 5.80650904, 6.70770952, 7.613691521, 8.536886357, 9.470937334, 10.45233069, 11.461024139, 12.51295332, 13.623444893, 14.776929983, 16, 16, 16, 16], degree=3))
            add(Edge.make_bspline(
                [(647.049257183, 298.54218845), (647.19164695, 298.499279419), (647.467865022, 298.416041346), (647.856360945, 298.265600017), (648.211652989, 298.111536308), (648.524185739, 297.936781388), (648.807636894, 297.762122504), (649.047122259, 297.564301324), (649.255235567, 297.361673563), (649.425188343, 297.135464734), (649.570253643, 296.882344437), (649.694827156, 296.586596707), (649.815179167, 296.247423665), (649.917667348, 295.859098311), (650.004750555, 295.423699276), (650.088222437, 294.944027189), (650.153853601, 294.416024546), (650.187587341, 294.048412906), (650.2051692, 293.856815525)],
                knots=[0, 0, 0, 0, 1.149282524, 2.229462177, 3.219229774, 4.139917433, 4.995948464, 5.788695735, 6.536448429, 7.236319808, 7.968460079, 8.78645307, 9.713791991, 10.749194692, 11.887975363, 13.146018663, 14.512518948, 16, 16, 16, 16], degree=3))
            add(Edge.make_bspline(
                [(650.2051692, 293.856815525), (650.225980287, 293.627849833), (650.265975604, 293.187817268), (650.348933081, 292.554613589), (650.44386163, 291.974357025), (650.555874504, 291.44528724), (650.681301216, 290.967898855), (650.821280597, 290.540469593), (650.979920039, 290.165788217), (651.10484481, 289.941461656), (651.163880062, 289.835452458)],
                knots=[0, 0, 0, 0, 1.324580516, 2.545615266, 3.678710841, 4.711533017, 5.660403917, 6.521349952, 7.301239649, 8, 8, 8, 8], degree=3))
            Line((651.163880062, 289.835452458), (645.213904094, 289.835452458))
            add(Edge.make_bspline(
                [(645.213904094, 289.835452458), (645.12229736, 290.069847279), (644.935171241, 290.548648246), (644.7595281, 291.319414791), (644.64846922, 292.142514735), (644.635117598, 292.70994511), (644.628232479, 293.002555653)],
                knots=[0, 0, 0, 0, 0.930410518, 1.900560147, 2.917368081, 4, 4, 4, 4], degree=3))
            Line((644.628232479, 293.002555653), (644.605850124, 294.002300831))
            Line((644.605850124, 294.002300831), (644.579737377, 295.266903874))
            add(Edge.make_bspline(
                [(644.579737377, 295.266903874), (644.573694669, 295.477395004), (644.562357007, 295.872330118), (644.469348432, 296.426164013), (644.30178735, 296.894645884), (644.073222546, 297.287223005), (643.766741442, 297.590613479), (643.39104803, 297.804152917), (642.950456912, 297.93396284), (642.634664848, 297.946292392), (642.468335247, 297.952786442)],
                knots=[0, 0, 0, 0, 1.295300309, 2.430314163, 3.439929415, 4.342995669, 5.203512789, 6.060756153, 6.978588463, 8, 8, 8, 8], degree=3))
            Line((642.468335247, 297.952786442), (642.106487178, 297.952786442))
            Line((642.106487178, 297.952786442), (642.106487178, 289.835452458))
            Line((642.106487178, 289.835452458), (636.376604366, 289.835452458))
        make_face()
        with BuildLine():
            Line((642.106487178, 299.862747379), (642.617550945, 299.862747379))
            add(Edge.make_bspline(
                [(642.617550945, 299.862747379), (642.722054451, 299.865172716), (642.925280724, 299.869889229), (643.220054897, 299.898289891), (643.494111408, 299.951809873), (643.749840966, 300.021017819), (643.984372137, 300.114851792), (644.200147241, 300.225818296), (644.391160406, 300.362685327), (644.565327067, 300.516342321), (644.718148635, 300.691986294), (644.850351299, 300.889034217), (644.961199162, 301.106225057), (645.056078491, 301.342818683), (645.125883912, 301.600830857), (645.173262731, 301.879472914), (645.203404658, 302.177423605), (645.207875435, 302.383174491), (645.210173702, 302.488943669)],
                knots=[0, 0, 0, 0, 1.184986479, 2.304423995, 3.352332712, 4.347714965, 5.303263624, 6.211353909, 7.091434645, 7.960150225, 8.839440182, 9.723126897, 10.64371617, 11.599264829, 12.608232147, 13.667459739, 14.800924404, 16, 16, 16, 16], degree=3))
            add(Edge.make_bspline(
                [(645.210173702, 302.488943669), (645.207875435, 302.594712847), (645.203404658, 302.800463732), (645.173262731, 303.098414423), (645.125883912, 303.37705648), (645.056078491, 303.635068654), (644.961199162, 303.87166228), (644.850351299, 304.08885312), (644.718148635, 304.285901043), (644.565327067, 304.461545017), (644.391160406, 304.61520201), (644.200147241, 304.752069041), (643.984372137, 304.863035546), (643.749840966, 304.956869518), (643.494111408, 305.026077464), (643.220054897, 305.079597446), (642.925280724, 305.107998108), (642.722054451, 305.112714621), (642.617550945, 305.115139958)],
                knots=[0, 0, 0, 0, 1.199075596, 2.332540261, 3.391767853, 4.400735171, 5.35628383, 6.276873103, 7.160559818, 8.039849775, 8.908565355, 9.788646091, 10.696736376, 11.652285035, 12.647667288, 13.695576005, 14.815013521, 16, 16, 16, 16], degree=3))
            Line((642.617550945, 305.115139958), (642.106487178, 305.115139958))
            Line((642.106487178, 305.115139958), (642.106487178, 299.862747379))
        make_face(mode=Mode.SUBTRACT)
    extrude(amount=BOSS_EXTRUDE4_DEPTH)


with BuildPart() as body_2:
    # Sketch11 → Boss-Extrude3 (new body)
    with BuildSketch(Plane.XY.offset(-100)):
        with Locations((255, 60)):
            Rectangle(SKETCH11_W, SKETCH11_H)
    extrude(amount=BOSS_EXTRUDE3_DEPTH)


with BuildPart() as body_3:
    # Sketch11 → Boss-Extrude3 2 (new body)
    with BuildSketch(Plane.XY.offset(-100)):
        with Locations((415, 60)):
            Rectangle(SKETCH11_W, SKETCH11_H)
    extrude(amount=BOSS_EXTRUDE3_2_DEPTH)


with BuildPart() as body_4:
    # Sketch11 → Boss-Extrude3 3 (new body)
    with BuildSketch(Plane.XY.offset(-100)):
        Polygon((25, 198.45686471), (325, 145.558770497), (325, 122.01775856), (345, 122.01775856), (345, 145.558770497), (645, 198.45686471), align=None)
    extrude(amount=BOSS_EXTRUDE3_3_DEPTH)

    # Sketch15 → Cut-Extrude7 (cut)
    with BuildSketch(Plane(origin=(345, 0, 0), x_dir=(0, 0, -1), z_dir=(1, 0, 0))):
        with Locations((35, 133.231921672)):
            Rectangle(SKETCH15_W, SKETCH15_H)
        with Locations((85, 130.506698154)):
            Rectangle(SKETCH15_W, SKETCH15_H_2)
    extrude(amount=-CUT_EXTRUDE7_DEPTH, mode=Mode.SUBTRACT)

    # Shell1
    shell1_openings = [body_4.faces().sort_by_distance(p)[0] for p in [
        (335, 198.45686471, -61),
    ]]
    offset(amount=SHELL1_T, openings=shell1_openings, kind=Kind.INTERSECTION)

    # Sketch16 → Cut-Extrude8 (cut)
    with BuildSketch(Plane.XZ.offset(-122.01775856)):
        with Locations((335, -60)):
            Rectangle(SKETCH16_W, SKETCH16_H)
    extrude(amount=-CUT_EXTRUDE8_DEPTH, mode=Mode.SUBTRACT)


with BuildPart() as cut_extrude10_tool:
    # Sketch18 → Cut-Extrude10 (new body)
    with BuildSketch(Plane.XY):
        with Locations((335, 140)):
            Rectangle(SKETCH18_W, SKETCH18_H)
    extrude(amount=-CUT_EXTRUDE10_DEPTH)


with BuildPart() as part_1:
    add(part.part)

    # Cut-Extrude10: cut by cut_extrude10_tool
    add(cut_extrude10_tool.part, mode=Mode.SUBTRACT)

    # Sketch19 → Cut-Extrude11 (cut, two sides: drawn at the far end of the back side and taken through both)
    with BuildSketch(Plane.XY.offset(-CUT_EXTRUDE11_DEPTH_BACK)):
        with Locations((57.5, 405)):
            Rectangle(SKETCH19_W, SKETCH19_H)
        with Locations((447.5, 405)):
            Rectangle(SKETCH19_W_2, SKETCH19_H)
    extrude(amount=CUT_EXTRUDE11_DEPTH + CUT_EXTRUDE11_DEPTH_BACK, mode=Mode.SUBTRACT)

    # Sketch20 → Cut-Extrude12 (cut, two sides: drawn at the far end of the back side and taken through both)
    with BuildSketch(Plane.XY.offset(-CUT_EXTRUDE12_DEPTH_BACK)):
        with Locations((170, 467.5)):
            Rectangle(SKETCH20_W, SKETCH20_H)
    extrude(amount=CUT_EXTRUDE12_DEPTH + CUT_EXTRUDE12_DEPTH_BACK, mode=Mode.SUBTRACT)


with BuildPart() as body_2_1:
    add(body_2.part)

    # Cut-Extrude10: cut by cut_extrude10_tool
    add(cut_extrude10_tool.part, mode=Mode.SUBTRACT)


with BuildPart() as body_3_1:
    add(body_3.part)

    # Cut-Extrude10: cut by cut_extrude10_tool
    add(cut_extrude10_tool.part, mode=Mode.SUBTRACT)


with BuildPart() as body_4_1:
    add(body_4.part)

    # Cut-Extrude10: cut by cut_extrude10_tool
    add(cut_extrude10_tool.part, mode=Mode.SUBTRACT)


solid = part_1.part
